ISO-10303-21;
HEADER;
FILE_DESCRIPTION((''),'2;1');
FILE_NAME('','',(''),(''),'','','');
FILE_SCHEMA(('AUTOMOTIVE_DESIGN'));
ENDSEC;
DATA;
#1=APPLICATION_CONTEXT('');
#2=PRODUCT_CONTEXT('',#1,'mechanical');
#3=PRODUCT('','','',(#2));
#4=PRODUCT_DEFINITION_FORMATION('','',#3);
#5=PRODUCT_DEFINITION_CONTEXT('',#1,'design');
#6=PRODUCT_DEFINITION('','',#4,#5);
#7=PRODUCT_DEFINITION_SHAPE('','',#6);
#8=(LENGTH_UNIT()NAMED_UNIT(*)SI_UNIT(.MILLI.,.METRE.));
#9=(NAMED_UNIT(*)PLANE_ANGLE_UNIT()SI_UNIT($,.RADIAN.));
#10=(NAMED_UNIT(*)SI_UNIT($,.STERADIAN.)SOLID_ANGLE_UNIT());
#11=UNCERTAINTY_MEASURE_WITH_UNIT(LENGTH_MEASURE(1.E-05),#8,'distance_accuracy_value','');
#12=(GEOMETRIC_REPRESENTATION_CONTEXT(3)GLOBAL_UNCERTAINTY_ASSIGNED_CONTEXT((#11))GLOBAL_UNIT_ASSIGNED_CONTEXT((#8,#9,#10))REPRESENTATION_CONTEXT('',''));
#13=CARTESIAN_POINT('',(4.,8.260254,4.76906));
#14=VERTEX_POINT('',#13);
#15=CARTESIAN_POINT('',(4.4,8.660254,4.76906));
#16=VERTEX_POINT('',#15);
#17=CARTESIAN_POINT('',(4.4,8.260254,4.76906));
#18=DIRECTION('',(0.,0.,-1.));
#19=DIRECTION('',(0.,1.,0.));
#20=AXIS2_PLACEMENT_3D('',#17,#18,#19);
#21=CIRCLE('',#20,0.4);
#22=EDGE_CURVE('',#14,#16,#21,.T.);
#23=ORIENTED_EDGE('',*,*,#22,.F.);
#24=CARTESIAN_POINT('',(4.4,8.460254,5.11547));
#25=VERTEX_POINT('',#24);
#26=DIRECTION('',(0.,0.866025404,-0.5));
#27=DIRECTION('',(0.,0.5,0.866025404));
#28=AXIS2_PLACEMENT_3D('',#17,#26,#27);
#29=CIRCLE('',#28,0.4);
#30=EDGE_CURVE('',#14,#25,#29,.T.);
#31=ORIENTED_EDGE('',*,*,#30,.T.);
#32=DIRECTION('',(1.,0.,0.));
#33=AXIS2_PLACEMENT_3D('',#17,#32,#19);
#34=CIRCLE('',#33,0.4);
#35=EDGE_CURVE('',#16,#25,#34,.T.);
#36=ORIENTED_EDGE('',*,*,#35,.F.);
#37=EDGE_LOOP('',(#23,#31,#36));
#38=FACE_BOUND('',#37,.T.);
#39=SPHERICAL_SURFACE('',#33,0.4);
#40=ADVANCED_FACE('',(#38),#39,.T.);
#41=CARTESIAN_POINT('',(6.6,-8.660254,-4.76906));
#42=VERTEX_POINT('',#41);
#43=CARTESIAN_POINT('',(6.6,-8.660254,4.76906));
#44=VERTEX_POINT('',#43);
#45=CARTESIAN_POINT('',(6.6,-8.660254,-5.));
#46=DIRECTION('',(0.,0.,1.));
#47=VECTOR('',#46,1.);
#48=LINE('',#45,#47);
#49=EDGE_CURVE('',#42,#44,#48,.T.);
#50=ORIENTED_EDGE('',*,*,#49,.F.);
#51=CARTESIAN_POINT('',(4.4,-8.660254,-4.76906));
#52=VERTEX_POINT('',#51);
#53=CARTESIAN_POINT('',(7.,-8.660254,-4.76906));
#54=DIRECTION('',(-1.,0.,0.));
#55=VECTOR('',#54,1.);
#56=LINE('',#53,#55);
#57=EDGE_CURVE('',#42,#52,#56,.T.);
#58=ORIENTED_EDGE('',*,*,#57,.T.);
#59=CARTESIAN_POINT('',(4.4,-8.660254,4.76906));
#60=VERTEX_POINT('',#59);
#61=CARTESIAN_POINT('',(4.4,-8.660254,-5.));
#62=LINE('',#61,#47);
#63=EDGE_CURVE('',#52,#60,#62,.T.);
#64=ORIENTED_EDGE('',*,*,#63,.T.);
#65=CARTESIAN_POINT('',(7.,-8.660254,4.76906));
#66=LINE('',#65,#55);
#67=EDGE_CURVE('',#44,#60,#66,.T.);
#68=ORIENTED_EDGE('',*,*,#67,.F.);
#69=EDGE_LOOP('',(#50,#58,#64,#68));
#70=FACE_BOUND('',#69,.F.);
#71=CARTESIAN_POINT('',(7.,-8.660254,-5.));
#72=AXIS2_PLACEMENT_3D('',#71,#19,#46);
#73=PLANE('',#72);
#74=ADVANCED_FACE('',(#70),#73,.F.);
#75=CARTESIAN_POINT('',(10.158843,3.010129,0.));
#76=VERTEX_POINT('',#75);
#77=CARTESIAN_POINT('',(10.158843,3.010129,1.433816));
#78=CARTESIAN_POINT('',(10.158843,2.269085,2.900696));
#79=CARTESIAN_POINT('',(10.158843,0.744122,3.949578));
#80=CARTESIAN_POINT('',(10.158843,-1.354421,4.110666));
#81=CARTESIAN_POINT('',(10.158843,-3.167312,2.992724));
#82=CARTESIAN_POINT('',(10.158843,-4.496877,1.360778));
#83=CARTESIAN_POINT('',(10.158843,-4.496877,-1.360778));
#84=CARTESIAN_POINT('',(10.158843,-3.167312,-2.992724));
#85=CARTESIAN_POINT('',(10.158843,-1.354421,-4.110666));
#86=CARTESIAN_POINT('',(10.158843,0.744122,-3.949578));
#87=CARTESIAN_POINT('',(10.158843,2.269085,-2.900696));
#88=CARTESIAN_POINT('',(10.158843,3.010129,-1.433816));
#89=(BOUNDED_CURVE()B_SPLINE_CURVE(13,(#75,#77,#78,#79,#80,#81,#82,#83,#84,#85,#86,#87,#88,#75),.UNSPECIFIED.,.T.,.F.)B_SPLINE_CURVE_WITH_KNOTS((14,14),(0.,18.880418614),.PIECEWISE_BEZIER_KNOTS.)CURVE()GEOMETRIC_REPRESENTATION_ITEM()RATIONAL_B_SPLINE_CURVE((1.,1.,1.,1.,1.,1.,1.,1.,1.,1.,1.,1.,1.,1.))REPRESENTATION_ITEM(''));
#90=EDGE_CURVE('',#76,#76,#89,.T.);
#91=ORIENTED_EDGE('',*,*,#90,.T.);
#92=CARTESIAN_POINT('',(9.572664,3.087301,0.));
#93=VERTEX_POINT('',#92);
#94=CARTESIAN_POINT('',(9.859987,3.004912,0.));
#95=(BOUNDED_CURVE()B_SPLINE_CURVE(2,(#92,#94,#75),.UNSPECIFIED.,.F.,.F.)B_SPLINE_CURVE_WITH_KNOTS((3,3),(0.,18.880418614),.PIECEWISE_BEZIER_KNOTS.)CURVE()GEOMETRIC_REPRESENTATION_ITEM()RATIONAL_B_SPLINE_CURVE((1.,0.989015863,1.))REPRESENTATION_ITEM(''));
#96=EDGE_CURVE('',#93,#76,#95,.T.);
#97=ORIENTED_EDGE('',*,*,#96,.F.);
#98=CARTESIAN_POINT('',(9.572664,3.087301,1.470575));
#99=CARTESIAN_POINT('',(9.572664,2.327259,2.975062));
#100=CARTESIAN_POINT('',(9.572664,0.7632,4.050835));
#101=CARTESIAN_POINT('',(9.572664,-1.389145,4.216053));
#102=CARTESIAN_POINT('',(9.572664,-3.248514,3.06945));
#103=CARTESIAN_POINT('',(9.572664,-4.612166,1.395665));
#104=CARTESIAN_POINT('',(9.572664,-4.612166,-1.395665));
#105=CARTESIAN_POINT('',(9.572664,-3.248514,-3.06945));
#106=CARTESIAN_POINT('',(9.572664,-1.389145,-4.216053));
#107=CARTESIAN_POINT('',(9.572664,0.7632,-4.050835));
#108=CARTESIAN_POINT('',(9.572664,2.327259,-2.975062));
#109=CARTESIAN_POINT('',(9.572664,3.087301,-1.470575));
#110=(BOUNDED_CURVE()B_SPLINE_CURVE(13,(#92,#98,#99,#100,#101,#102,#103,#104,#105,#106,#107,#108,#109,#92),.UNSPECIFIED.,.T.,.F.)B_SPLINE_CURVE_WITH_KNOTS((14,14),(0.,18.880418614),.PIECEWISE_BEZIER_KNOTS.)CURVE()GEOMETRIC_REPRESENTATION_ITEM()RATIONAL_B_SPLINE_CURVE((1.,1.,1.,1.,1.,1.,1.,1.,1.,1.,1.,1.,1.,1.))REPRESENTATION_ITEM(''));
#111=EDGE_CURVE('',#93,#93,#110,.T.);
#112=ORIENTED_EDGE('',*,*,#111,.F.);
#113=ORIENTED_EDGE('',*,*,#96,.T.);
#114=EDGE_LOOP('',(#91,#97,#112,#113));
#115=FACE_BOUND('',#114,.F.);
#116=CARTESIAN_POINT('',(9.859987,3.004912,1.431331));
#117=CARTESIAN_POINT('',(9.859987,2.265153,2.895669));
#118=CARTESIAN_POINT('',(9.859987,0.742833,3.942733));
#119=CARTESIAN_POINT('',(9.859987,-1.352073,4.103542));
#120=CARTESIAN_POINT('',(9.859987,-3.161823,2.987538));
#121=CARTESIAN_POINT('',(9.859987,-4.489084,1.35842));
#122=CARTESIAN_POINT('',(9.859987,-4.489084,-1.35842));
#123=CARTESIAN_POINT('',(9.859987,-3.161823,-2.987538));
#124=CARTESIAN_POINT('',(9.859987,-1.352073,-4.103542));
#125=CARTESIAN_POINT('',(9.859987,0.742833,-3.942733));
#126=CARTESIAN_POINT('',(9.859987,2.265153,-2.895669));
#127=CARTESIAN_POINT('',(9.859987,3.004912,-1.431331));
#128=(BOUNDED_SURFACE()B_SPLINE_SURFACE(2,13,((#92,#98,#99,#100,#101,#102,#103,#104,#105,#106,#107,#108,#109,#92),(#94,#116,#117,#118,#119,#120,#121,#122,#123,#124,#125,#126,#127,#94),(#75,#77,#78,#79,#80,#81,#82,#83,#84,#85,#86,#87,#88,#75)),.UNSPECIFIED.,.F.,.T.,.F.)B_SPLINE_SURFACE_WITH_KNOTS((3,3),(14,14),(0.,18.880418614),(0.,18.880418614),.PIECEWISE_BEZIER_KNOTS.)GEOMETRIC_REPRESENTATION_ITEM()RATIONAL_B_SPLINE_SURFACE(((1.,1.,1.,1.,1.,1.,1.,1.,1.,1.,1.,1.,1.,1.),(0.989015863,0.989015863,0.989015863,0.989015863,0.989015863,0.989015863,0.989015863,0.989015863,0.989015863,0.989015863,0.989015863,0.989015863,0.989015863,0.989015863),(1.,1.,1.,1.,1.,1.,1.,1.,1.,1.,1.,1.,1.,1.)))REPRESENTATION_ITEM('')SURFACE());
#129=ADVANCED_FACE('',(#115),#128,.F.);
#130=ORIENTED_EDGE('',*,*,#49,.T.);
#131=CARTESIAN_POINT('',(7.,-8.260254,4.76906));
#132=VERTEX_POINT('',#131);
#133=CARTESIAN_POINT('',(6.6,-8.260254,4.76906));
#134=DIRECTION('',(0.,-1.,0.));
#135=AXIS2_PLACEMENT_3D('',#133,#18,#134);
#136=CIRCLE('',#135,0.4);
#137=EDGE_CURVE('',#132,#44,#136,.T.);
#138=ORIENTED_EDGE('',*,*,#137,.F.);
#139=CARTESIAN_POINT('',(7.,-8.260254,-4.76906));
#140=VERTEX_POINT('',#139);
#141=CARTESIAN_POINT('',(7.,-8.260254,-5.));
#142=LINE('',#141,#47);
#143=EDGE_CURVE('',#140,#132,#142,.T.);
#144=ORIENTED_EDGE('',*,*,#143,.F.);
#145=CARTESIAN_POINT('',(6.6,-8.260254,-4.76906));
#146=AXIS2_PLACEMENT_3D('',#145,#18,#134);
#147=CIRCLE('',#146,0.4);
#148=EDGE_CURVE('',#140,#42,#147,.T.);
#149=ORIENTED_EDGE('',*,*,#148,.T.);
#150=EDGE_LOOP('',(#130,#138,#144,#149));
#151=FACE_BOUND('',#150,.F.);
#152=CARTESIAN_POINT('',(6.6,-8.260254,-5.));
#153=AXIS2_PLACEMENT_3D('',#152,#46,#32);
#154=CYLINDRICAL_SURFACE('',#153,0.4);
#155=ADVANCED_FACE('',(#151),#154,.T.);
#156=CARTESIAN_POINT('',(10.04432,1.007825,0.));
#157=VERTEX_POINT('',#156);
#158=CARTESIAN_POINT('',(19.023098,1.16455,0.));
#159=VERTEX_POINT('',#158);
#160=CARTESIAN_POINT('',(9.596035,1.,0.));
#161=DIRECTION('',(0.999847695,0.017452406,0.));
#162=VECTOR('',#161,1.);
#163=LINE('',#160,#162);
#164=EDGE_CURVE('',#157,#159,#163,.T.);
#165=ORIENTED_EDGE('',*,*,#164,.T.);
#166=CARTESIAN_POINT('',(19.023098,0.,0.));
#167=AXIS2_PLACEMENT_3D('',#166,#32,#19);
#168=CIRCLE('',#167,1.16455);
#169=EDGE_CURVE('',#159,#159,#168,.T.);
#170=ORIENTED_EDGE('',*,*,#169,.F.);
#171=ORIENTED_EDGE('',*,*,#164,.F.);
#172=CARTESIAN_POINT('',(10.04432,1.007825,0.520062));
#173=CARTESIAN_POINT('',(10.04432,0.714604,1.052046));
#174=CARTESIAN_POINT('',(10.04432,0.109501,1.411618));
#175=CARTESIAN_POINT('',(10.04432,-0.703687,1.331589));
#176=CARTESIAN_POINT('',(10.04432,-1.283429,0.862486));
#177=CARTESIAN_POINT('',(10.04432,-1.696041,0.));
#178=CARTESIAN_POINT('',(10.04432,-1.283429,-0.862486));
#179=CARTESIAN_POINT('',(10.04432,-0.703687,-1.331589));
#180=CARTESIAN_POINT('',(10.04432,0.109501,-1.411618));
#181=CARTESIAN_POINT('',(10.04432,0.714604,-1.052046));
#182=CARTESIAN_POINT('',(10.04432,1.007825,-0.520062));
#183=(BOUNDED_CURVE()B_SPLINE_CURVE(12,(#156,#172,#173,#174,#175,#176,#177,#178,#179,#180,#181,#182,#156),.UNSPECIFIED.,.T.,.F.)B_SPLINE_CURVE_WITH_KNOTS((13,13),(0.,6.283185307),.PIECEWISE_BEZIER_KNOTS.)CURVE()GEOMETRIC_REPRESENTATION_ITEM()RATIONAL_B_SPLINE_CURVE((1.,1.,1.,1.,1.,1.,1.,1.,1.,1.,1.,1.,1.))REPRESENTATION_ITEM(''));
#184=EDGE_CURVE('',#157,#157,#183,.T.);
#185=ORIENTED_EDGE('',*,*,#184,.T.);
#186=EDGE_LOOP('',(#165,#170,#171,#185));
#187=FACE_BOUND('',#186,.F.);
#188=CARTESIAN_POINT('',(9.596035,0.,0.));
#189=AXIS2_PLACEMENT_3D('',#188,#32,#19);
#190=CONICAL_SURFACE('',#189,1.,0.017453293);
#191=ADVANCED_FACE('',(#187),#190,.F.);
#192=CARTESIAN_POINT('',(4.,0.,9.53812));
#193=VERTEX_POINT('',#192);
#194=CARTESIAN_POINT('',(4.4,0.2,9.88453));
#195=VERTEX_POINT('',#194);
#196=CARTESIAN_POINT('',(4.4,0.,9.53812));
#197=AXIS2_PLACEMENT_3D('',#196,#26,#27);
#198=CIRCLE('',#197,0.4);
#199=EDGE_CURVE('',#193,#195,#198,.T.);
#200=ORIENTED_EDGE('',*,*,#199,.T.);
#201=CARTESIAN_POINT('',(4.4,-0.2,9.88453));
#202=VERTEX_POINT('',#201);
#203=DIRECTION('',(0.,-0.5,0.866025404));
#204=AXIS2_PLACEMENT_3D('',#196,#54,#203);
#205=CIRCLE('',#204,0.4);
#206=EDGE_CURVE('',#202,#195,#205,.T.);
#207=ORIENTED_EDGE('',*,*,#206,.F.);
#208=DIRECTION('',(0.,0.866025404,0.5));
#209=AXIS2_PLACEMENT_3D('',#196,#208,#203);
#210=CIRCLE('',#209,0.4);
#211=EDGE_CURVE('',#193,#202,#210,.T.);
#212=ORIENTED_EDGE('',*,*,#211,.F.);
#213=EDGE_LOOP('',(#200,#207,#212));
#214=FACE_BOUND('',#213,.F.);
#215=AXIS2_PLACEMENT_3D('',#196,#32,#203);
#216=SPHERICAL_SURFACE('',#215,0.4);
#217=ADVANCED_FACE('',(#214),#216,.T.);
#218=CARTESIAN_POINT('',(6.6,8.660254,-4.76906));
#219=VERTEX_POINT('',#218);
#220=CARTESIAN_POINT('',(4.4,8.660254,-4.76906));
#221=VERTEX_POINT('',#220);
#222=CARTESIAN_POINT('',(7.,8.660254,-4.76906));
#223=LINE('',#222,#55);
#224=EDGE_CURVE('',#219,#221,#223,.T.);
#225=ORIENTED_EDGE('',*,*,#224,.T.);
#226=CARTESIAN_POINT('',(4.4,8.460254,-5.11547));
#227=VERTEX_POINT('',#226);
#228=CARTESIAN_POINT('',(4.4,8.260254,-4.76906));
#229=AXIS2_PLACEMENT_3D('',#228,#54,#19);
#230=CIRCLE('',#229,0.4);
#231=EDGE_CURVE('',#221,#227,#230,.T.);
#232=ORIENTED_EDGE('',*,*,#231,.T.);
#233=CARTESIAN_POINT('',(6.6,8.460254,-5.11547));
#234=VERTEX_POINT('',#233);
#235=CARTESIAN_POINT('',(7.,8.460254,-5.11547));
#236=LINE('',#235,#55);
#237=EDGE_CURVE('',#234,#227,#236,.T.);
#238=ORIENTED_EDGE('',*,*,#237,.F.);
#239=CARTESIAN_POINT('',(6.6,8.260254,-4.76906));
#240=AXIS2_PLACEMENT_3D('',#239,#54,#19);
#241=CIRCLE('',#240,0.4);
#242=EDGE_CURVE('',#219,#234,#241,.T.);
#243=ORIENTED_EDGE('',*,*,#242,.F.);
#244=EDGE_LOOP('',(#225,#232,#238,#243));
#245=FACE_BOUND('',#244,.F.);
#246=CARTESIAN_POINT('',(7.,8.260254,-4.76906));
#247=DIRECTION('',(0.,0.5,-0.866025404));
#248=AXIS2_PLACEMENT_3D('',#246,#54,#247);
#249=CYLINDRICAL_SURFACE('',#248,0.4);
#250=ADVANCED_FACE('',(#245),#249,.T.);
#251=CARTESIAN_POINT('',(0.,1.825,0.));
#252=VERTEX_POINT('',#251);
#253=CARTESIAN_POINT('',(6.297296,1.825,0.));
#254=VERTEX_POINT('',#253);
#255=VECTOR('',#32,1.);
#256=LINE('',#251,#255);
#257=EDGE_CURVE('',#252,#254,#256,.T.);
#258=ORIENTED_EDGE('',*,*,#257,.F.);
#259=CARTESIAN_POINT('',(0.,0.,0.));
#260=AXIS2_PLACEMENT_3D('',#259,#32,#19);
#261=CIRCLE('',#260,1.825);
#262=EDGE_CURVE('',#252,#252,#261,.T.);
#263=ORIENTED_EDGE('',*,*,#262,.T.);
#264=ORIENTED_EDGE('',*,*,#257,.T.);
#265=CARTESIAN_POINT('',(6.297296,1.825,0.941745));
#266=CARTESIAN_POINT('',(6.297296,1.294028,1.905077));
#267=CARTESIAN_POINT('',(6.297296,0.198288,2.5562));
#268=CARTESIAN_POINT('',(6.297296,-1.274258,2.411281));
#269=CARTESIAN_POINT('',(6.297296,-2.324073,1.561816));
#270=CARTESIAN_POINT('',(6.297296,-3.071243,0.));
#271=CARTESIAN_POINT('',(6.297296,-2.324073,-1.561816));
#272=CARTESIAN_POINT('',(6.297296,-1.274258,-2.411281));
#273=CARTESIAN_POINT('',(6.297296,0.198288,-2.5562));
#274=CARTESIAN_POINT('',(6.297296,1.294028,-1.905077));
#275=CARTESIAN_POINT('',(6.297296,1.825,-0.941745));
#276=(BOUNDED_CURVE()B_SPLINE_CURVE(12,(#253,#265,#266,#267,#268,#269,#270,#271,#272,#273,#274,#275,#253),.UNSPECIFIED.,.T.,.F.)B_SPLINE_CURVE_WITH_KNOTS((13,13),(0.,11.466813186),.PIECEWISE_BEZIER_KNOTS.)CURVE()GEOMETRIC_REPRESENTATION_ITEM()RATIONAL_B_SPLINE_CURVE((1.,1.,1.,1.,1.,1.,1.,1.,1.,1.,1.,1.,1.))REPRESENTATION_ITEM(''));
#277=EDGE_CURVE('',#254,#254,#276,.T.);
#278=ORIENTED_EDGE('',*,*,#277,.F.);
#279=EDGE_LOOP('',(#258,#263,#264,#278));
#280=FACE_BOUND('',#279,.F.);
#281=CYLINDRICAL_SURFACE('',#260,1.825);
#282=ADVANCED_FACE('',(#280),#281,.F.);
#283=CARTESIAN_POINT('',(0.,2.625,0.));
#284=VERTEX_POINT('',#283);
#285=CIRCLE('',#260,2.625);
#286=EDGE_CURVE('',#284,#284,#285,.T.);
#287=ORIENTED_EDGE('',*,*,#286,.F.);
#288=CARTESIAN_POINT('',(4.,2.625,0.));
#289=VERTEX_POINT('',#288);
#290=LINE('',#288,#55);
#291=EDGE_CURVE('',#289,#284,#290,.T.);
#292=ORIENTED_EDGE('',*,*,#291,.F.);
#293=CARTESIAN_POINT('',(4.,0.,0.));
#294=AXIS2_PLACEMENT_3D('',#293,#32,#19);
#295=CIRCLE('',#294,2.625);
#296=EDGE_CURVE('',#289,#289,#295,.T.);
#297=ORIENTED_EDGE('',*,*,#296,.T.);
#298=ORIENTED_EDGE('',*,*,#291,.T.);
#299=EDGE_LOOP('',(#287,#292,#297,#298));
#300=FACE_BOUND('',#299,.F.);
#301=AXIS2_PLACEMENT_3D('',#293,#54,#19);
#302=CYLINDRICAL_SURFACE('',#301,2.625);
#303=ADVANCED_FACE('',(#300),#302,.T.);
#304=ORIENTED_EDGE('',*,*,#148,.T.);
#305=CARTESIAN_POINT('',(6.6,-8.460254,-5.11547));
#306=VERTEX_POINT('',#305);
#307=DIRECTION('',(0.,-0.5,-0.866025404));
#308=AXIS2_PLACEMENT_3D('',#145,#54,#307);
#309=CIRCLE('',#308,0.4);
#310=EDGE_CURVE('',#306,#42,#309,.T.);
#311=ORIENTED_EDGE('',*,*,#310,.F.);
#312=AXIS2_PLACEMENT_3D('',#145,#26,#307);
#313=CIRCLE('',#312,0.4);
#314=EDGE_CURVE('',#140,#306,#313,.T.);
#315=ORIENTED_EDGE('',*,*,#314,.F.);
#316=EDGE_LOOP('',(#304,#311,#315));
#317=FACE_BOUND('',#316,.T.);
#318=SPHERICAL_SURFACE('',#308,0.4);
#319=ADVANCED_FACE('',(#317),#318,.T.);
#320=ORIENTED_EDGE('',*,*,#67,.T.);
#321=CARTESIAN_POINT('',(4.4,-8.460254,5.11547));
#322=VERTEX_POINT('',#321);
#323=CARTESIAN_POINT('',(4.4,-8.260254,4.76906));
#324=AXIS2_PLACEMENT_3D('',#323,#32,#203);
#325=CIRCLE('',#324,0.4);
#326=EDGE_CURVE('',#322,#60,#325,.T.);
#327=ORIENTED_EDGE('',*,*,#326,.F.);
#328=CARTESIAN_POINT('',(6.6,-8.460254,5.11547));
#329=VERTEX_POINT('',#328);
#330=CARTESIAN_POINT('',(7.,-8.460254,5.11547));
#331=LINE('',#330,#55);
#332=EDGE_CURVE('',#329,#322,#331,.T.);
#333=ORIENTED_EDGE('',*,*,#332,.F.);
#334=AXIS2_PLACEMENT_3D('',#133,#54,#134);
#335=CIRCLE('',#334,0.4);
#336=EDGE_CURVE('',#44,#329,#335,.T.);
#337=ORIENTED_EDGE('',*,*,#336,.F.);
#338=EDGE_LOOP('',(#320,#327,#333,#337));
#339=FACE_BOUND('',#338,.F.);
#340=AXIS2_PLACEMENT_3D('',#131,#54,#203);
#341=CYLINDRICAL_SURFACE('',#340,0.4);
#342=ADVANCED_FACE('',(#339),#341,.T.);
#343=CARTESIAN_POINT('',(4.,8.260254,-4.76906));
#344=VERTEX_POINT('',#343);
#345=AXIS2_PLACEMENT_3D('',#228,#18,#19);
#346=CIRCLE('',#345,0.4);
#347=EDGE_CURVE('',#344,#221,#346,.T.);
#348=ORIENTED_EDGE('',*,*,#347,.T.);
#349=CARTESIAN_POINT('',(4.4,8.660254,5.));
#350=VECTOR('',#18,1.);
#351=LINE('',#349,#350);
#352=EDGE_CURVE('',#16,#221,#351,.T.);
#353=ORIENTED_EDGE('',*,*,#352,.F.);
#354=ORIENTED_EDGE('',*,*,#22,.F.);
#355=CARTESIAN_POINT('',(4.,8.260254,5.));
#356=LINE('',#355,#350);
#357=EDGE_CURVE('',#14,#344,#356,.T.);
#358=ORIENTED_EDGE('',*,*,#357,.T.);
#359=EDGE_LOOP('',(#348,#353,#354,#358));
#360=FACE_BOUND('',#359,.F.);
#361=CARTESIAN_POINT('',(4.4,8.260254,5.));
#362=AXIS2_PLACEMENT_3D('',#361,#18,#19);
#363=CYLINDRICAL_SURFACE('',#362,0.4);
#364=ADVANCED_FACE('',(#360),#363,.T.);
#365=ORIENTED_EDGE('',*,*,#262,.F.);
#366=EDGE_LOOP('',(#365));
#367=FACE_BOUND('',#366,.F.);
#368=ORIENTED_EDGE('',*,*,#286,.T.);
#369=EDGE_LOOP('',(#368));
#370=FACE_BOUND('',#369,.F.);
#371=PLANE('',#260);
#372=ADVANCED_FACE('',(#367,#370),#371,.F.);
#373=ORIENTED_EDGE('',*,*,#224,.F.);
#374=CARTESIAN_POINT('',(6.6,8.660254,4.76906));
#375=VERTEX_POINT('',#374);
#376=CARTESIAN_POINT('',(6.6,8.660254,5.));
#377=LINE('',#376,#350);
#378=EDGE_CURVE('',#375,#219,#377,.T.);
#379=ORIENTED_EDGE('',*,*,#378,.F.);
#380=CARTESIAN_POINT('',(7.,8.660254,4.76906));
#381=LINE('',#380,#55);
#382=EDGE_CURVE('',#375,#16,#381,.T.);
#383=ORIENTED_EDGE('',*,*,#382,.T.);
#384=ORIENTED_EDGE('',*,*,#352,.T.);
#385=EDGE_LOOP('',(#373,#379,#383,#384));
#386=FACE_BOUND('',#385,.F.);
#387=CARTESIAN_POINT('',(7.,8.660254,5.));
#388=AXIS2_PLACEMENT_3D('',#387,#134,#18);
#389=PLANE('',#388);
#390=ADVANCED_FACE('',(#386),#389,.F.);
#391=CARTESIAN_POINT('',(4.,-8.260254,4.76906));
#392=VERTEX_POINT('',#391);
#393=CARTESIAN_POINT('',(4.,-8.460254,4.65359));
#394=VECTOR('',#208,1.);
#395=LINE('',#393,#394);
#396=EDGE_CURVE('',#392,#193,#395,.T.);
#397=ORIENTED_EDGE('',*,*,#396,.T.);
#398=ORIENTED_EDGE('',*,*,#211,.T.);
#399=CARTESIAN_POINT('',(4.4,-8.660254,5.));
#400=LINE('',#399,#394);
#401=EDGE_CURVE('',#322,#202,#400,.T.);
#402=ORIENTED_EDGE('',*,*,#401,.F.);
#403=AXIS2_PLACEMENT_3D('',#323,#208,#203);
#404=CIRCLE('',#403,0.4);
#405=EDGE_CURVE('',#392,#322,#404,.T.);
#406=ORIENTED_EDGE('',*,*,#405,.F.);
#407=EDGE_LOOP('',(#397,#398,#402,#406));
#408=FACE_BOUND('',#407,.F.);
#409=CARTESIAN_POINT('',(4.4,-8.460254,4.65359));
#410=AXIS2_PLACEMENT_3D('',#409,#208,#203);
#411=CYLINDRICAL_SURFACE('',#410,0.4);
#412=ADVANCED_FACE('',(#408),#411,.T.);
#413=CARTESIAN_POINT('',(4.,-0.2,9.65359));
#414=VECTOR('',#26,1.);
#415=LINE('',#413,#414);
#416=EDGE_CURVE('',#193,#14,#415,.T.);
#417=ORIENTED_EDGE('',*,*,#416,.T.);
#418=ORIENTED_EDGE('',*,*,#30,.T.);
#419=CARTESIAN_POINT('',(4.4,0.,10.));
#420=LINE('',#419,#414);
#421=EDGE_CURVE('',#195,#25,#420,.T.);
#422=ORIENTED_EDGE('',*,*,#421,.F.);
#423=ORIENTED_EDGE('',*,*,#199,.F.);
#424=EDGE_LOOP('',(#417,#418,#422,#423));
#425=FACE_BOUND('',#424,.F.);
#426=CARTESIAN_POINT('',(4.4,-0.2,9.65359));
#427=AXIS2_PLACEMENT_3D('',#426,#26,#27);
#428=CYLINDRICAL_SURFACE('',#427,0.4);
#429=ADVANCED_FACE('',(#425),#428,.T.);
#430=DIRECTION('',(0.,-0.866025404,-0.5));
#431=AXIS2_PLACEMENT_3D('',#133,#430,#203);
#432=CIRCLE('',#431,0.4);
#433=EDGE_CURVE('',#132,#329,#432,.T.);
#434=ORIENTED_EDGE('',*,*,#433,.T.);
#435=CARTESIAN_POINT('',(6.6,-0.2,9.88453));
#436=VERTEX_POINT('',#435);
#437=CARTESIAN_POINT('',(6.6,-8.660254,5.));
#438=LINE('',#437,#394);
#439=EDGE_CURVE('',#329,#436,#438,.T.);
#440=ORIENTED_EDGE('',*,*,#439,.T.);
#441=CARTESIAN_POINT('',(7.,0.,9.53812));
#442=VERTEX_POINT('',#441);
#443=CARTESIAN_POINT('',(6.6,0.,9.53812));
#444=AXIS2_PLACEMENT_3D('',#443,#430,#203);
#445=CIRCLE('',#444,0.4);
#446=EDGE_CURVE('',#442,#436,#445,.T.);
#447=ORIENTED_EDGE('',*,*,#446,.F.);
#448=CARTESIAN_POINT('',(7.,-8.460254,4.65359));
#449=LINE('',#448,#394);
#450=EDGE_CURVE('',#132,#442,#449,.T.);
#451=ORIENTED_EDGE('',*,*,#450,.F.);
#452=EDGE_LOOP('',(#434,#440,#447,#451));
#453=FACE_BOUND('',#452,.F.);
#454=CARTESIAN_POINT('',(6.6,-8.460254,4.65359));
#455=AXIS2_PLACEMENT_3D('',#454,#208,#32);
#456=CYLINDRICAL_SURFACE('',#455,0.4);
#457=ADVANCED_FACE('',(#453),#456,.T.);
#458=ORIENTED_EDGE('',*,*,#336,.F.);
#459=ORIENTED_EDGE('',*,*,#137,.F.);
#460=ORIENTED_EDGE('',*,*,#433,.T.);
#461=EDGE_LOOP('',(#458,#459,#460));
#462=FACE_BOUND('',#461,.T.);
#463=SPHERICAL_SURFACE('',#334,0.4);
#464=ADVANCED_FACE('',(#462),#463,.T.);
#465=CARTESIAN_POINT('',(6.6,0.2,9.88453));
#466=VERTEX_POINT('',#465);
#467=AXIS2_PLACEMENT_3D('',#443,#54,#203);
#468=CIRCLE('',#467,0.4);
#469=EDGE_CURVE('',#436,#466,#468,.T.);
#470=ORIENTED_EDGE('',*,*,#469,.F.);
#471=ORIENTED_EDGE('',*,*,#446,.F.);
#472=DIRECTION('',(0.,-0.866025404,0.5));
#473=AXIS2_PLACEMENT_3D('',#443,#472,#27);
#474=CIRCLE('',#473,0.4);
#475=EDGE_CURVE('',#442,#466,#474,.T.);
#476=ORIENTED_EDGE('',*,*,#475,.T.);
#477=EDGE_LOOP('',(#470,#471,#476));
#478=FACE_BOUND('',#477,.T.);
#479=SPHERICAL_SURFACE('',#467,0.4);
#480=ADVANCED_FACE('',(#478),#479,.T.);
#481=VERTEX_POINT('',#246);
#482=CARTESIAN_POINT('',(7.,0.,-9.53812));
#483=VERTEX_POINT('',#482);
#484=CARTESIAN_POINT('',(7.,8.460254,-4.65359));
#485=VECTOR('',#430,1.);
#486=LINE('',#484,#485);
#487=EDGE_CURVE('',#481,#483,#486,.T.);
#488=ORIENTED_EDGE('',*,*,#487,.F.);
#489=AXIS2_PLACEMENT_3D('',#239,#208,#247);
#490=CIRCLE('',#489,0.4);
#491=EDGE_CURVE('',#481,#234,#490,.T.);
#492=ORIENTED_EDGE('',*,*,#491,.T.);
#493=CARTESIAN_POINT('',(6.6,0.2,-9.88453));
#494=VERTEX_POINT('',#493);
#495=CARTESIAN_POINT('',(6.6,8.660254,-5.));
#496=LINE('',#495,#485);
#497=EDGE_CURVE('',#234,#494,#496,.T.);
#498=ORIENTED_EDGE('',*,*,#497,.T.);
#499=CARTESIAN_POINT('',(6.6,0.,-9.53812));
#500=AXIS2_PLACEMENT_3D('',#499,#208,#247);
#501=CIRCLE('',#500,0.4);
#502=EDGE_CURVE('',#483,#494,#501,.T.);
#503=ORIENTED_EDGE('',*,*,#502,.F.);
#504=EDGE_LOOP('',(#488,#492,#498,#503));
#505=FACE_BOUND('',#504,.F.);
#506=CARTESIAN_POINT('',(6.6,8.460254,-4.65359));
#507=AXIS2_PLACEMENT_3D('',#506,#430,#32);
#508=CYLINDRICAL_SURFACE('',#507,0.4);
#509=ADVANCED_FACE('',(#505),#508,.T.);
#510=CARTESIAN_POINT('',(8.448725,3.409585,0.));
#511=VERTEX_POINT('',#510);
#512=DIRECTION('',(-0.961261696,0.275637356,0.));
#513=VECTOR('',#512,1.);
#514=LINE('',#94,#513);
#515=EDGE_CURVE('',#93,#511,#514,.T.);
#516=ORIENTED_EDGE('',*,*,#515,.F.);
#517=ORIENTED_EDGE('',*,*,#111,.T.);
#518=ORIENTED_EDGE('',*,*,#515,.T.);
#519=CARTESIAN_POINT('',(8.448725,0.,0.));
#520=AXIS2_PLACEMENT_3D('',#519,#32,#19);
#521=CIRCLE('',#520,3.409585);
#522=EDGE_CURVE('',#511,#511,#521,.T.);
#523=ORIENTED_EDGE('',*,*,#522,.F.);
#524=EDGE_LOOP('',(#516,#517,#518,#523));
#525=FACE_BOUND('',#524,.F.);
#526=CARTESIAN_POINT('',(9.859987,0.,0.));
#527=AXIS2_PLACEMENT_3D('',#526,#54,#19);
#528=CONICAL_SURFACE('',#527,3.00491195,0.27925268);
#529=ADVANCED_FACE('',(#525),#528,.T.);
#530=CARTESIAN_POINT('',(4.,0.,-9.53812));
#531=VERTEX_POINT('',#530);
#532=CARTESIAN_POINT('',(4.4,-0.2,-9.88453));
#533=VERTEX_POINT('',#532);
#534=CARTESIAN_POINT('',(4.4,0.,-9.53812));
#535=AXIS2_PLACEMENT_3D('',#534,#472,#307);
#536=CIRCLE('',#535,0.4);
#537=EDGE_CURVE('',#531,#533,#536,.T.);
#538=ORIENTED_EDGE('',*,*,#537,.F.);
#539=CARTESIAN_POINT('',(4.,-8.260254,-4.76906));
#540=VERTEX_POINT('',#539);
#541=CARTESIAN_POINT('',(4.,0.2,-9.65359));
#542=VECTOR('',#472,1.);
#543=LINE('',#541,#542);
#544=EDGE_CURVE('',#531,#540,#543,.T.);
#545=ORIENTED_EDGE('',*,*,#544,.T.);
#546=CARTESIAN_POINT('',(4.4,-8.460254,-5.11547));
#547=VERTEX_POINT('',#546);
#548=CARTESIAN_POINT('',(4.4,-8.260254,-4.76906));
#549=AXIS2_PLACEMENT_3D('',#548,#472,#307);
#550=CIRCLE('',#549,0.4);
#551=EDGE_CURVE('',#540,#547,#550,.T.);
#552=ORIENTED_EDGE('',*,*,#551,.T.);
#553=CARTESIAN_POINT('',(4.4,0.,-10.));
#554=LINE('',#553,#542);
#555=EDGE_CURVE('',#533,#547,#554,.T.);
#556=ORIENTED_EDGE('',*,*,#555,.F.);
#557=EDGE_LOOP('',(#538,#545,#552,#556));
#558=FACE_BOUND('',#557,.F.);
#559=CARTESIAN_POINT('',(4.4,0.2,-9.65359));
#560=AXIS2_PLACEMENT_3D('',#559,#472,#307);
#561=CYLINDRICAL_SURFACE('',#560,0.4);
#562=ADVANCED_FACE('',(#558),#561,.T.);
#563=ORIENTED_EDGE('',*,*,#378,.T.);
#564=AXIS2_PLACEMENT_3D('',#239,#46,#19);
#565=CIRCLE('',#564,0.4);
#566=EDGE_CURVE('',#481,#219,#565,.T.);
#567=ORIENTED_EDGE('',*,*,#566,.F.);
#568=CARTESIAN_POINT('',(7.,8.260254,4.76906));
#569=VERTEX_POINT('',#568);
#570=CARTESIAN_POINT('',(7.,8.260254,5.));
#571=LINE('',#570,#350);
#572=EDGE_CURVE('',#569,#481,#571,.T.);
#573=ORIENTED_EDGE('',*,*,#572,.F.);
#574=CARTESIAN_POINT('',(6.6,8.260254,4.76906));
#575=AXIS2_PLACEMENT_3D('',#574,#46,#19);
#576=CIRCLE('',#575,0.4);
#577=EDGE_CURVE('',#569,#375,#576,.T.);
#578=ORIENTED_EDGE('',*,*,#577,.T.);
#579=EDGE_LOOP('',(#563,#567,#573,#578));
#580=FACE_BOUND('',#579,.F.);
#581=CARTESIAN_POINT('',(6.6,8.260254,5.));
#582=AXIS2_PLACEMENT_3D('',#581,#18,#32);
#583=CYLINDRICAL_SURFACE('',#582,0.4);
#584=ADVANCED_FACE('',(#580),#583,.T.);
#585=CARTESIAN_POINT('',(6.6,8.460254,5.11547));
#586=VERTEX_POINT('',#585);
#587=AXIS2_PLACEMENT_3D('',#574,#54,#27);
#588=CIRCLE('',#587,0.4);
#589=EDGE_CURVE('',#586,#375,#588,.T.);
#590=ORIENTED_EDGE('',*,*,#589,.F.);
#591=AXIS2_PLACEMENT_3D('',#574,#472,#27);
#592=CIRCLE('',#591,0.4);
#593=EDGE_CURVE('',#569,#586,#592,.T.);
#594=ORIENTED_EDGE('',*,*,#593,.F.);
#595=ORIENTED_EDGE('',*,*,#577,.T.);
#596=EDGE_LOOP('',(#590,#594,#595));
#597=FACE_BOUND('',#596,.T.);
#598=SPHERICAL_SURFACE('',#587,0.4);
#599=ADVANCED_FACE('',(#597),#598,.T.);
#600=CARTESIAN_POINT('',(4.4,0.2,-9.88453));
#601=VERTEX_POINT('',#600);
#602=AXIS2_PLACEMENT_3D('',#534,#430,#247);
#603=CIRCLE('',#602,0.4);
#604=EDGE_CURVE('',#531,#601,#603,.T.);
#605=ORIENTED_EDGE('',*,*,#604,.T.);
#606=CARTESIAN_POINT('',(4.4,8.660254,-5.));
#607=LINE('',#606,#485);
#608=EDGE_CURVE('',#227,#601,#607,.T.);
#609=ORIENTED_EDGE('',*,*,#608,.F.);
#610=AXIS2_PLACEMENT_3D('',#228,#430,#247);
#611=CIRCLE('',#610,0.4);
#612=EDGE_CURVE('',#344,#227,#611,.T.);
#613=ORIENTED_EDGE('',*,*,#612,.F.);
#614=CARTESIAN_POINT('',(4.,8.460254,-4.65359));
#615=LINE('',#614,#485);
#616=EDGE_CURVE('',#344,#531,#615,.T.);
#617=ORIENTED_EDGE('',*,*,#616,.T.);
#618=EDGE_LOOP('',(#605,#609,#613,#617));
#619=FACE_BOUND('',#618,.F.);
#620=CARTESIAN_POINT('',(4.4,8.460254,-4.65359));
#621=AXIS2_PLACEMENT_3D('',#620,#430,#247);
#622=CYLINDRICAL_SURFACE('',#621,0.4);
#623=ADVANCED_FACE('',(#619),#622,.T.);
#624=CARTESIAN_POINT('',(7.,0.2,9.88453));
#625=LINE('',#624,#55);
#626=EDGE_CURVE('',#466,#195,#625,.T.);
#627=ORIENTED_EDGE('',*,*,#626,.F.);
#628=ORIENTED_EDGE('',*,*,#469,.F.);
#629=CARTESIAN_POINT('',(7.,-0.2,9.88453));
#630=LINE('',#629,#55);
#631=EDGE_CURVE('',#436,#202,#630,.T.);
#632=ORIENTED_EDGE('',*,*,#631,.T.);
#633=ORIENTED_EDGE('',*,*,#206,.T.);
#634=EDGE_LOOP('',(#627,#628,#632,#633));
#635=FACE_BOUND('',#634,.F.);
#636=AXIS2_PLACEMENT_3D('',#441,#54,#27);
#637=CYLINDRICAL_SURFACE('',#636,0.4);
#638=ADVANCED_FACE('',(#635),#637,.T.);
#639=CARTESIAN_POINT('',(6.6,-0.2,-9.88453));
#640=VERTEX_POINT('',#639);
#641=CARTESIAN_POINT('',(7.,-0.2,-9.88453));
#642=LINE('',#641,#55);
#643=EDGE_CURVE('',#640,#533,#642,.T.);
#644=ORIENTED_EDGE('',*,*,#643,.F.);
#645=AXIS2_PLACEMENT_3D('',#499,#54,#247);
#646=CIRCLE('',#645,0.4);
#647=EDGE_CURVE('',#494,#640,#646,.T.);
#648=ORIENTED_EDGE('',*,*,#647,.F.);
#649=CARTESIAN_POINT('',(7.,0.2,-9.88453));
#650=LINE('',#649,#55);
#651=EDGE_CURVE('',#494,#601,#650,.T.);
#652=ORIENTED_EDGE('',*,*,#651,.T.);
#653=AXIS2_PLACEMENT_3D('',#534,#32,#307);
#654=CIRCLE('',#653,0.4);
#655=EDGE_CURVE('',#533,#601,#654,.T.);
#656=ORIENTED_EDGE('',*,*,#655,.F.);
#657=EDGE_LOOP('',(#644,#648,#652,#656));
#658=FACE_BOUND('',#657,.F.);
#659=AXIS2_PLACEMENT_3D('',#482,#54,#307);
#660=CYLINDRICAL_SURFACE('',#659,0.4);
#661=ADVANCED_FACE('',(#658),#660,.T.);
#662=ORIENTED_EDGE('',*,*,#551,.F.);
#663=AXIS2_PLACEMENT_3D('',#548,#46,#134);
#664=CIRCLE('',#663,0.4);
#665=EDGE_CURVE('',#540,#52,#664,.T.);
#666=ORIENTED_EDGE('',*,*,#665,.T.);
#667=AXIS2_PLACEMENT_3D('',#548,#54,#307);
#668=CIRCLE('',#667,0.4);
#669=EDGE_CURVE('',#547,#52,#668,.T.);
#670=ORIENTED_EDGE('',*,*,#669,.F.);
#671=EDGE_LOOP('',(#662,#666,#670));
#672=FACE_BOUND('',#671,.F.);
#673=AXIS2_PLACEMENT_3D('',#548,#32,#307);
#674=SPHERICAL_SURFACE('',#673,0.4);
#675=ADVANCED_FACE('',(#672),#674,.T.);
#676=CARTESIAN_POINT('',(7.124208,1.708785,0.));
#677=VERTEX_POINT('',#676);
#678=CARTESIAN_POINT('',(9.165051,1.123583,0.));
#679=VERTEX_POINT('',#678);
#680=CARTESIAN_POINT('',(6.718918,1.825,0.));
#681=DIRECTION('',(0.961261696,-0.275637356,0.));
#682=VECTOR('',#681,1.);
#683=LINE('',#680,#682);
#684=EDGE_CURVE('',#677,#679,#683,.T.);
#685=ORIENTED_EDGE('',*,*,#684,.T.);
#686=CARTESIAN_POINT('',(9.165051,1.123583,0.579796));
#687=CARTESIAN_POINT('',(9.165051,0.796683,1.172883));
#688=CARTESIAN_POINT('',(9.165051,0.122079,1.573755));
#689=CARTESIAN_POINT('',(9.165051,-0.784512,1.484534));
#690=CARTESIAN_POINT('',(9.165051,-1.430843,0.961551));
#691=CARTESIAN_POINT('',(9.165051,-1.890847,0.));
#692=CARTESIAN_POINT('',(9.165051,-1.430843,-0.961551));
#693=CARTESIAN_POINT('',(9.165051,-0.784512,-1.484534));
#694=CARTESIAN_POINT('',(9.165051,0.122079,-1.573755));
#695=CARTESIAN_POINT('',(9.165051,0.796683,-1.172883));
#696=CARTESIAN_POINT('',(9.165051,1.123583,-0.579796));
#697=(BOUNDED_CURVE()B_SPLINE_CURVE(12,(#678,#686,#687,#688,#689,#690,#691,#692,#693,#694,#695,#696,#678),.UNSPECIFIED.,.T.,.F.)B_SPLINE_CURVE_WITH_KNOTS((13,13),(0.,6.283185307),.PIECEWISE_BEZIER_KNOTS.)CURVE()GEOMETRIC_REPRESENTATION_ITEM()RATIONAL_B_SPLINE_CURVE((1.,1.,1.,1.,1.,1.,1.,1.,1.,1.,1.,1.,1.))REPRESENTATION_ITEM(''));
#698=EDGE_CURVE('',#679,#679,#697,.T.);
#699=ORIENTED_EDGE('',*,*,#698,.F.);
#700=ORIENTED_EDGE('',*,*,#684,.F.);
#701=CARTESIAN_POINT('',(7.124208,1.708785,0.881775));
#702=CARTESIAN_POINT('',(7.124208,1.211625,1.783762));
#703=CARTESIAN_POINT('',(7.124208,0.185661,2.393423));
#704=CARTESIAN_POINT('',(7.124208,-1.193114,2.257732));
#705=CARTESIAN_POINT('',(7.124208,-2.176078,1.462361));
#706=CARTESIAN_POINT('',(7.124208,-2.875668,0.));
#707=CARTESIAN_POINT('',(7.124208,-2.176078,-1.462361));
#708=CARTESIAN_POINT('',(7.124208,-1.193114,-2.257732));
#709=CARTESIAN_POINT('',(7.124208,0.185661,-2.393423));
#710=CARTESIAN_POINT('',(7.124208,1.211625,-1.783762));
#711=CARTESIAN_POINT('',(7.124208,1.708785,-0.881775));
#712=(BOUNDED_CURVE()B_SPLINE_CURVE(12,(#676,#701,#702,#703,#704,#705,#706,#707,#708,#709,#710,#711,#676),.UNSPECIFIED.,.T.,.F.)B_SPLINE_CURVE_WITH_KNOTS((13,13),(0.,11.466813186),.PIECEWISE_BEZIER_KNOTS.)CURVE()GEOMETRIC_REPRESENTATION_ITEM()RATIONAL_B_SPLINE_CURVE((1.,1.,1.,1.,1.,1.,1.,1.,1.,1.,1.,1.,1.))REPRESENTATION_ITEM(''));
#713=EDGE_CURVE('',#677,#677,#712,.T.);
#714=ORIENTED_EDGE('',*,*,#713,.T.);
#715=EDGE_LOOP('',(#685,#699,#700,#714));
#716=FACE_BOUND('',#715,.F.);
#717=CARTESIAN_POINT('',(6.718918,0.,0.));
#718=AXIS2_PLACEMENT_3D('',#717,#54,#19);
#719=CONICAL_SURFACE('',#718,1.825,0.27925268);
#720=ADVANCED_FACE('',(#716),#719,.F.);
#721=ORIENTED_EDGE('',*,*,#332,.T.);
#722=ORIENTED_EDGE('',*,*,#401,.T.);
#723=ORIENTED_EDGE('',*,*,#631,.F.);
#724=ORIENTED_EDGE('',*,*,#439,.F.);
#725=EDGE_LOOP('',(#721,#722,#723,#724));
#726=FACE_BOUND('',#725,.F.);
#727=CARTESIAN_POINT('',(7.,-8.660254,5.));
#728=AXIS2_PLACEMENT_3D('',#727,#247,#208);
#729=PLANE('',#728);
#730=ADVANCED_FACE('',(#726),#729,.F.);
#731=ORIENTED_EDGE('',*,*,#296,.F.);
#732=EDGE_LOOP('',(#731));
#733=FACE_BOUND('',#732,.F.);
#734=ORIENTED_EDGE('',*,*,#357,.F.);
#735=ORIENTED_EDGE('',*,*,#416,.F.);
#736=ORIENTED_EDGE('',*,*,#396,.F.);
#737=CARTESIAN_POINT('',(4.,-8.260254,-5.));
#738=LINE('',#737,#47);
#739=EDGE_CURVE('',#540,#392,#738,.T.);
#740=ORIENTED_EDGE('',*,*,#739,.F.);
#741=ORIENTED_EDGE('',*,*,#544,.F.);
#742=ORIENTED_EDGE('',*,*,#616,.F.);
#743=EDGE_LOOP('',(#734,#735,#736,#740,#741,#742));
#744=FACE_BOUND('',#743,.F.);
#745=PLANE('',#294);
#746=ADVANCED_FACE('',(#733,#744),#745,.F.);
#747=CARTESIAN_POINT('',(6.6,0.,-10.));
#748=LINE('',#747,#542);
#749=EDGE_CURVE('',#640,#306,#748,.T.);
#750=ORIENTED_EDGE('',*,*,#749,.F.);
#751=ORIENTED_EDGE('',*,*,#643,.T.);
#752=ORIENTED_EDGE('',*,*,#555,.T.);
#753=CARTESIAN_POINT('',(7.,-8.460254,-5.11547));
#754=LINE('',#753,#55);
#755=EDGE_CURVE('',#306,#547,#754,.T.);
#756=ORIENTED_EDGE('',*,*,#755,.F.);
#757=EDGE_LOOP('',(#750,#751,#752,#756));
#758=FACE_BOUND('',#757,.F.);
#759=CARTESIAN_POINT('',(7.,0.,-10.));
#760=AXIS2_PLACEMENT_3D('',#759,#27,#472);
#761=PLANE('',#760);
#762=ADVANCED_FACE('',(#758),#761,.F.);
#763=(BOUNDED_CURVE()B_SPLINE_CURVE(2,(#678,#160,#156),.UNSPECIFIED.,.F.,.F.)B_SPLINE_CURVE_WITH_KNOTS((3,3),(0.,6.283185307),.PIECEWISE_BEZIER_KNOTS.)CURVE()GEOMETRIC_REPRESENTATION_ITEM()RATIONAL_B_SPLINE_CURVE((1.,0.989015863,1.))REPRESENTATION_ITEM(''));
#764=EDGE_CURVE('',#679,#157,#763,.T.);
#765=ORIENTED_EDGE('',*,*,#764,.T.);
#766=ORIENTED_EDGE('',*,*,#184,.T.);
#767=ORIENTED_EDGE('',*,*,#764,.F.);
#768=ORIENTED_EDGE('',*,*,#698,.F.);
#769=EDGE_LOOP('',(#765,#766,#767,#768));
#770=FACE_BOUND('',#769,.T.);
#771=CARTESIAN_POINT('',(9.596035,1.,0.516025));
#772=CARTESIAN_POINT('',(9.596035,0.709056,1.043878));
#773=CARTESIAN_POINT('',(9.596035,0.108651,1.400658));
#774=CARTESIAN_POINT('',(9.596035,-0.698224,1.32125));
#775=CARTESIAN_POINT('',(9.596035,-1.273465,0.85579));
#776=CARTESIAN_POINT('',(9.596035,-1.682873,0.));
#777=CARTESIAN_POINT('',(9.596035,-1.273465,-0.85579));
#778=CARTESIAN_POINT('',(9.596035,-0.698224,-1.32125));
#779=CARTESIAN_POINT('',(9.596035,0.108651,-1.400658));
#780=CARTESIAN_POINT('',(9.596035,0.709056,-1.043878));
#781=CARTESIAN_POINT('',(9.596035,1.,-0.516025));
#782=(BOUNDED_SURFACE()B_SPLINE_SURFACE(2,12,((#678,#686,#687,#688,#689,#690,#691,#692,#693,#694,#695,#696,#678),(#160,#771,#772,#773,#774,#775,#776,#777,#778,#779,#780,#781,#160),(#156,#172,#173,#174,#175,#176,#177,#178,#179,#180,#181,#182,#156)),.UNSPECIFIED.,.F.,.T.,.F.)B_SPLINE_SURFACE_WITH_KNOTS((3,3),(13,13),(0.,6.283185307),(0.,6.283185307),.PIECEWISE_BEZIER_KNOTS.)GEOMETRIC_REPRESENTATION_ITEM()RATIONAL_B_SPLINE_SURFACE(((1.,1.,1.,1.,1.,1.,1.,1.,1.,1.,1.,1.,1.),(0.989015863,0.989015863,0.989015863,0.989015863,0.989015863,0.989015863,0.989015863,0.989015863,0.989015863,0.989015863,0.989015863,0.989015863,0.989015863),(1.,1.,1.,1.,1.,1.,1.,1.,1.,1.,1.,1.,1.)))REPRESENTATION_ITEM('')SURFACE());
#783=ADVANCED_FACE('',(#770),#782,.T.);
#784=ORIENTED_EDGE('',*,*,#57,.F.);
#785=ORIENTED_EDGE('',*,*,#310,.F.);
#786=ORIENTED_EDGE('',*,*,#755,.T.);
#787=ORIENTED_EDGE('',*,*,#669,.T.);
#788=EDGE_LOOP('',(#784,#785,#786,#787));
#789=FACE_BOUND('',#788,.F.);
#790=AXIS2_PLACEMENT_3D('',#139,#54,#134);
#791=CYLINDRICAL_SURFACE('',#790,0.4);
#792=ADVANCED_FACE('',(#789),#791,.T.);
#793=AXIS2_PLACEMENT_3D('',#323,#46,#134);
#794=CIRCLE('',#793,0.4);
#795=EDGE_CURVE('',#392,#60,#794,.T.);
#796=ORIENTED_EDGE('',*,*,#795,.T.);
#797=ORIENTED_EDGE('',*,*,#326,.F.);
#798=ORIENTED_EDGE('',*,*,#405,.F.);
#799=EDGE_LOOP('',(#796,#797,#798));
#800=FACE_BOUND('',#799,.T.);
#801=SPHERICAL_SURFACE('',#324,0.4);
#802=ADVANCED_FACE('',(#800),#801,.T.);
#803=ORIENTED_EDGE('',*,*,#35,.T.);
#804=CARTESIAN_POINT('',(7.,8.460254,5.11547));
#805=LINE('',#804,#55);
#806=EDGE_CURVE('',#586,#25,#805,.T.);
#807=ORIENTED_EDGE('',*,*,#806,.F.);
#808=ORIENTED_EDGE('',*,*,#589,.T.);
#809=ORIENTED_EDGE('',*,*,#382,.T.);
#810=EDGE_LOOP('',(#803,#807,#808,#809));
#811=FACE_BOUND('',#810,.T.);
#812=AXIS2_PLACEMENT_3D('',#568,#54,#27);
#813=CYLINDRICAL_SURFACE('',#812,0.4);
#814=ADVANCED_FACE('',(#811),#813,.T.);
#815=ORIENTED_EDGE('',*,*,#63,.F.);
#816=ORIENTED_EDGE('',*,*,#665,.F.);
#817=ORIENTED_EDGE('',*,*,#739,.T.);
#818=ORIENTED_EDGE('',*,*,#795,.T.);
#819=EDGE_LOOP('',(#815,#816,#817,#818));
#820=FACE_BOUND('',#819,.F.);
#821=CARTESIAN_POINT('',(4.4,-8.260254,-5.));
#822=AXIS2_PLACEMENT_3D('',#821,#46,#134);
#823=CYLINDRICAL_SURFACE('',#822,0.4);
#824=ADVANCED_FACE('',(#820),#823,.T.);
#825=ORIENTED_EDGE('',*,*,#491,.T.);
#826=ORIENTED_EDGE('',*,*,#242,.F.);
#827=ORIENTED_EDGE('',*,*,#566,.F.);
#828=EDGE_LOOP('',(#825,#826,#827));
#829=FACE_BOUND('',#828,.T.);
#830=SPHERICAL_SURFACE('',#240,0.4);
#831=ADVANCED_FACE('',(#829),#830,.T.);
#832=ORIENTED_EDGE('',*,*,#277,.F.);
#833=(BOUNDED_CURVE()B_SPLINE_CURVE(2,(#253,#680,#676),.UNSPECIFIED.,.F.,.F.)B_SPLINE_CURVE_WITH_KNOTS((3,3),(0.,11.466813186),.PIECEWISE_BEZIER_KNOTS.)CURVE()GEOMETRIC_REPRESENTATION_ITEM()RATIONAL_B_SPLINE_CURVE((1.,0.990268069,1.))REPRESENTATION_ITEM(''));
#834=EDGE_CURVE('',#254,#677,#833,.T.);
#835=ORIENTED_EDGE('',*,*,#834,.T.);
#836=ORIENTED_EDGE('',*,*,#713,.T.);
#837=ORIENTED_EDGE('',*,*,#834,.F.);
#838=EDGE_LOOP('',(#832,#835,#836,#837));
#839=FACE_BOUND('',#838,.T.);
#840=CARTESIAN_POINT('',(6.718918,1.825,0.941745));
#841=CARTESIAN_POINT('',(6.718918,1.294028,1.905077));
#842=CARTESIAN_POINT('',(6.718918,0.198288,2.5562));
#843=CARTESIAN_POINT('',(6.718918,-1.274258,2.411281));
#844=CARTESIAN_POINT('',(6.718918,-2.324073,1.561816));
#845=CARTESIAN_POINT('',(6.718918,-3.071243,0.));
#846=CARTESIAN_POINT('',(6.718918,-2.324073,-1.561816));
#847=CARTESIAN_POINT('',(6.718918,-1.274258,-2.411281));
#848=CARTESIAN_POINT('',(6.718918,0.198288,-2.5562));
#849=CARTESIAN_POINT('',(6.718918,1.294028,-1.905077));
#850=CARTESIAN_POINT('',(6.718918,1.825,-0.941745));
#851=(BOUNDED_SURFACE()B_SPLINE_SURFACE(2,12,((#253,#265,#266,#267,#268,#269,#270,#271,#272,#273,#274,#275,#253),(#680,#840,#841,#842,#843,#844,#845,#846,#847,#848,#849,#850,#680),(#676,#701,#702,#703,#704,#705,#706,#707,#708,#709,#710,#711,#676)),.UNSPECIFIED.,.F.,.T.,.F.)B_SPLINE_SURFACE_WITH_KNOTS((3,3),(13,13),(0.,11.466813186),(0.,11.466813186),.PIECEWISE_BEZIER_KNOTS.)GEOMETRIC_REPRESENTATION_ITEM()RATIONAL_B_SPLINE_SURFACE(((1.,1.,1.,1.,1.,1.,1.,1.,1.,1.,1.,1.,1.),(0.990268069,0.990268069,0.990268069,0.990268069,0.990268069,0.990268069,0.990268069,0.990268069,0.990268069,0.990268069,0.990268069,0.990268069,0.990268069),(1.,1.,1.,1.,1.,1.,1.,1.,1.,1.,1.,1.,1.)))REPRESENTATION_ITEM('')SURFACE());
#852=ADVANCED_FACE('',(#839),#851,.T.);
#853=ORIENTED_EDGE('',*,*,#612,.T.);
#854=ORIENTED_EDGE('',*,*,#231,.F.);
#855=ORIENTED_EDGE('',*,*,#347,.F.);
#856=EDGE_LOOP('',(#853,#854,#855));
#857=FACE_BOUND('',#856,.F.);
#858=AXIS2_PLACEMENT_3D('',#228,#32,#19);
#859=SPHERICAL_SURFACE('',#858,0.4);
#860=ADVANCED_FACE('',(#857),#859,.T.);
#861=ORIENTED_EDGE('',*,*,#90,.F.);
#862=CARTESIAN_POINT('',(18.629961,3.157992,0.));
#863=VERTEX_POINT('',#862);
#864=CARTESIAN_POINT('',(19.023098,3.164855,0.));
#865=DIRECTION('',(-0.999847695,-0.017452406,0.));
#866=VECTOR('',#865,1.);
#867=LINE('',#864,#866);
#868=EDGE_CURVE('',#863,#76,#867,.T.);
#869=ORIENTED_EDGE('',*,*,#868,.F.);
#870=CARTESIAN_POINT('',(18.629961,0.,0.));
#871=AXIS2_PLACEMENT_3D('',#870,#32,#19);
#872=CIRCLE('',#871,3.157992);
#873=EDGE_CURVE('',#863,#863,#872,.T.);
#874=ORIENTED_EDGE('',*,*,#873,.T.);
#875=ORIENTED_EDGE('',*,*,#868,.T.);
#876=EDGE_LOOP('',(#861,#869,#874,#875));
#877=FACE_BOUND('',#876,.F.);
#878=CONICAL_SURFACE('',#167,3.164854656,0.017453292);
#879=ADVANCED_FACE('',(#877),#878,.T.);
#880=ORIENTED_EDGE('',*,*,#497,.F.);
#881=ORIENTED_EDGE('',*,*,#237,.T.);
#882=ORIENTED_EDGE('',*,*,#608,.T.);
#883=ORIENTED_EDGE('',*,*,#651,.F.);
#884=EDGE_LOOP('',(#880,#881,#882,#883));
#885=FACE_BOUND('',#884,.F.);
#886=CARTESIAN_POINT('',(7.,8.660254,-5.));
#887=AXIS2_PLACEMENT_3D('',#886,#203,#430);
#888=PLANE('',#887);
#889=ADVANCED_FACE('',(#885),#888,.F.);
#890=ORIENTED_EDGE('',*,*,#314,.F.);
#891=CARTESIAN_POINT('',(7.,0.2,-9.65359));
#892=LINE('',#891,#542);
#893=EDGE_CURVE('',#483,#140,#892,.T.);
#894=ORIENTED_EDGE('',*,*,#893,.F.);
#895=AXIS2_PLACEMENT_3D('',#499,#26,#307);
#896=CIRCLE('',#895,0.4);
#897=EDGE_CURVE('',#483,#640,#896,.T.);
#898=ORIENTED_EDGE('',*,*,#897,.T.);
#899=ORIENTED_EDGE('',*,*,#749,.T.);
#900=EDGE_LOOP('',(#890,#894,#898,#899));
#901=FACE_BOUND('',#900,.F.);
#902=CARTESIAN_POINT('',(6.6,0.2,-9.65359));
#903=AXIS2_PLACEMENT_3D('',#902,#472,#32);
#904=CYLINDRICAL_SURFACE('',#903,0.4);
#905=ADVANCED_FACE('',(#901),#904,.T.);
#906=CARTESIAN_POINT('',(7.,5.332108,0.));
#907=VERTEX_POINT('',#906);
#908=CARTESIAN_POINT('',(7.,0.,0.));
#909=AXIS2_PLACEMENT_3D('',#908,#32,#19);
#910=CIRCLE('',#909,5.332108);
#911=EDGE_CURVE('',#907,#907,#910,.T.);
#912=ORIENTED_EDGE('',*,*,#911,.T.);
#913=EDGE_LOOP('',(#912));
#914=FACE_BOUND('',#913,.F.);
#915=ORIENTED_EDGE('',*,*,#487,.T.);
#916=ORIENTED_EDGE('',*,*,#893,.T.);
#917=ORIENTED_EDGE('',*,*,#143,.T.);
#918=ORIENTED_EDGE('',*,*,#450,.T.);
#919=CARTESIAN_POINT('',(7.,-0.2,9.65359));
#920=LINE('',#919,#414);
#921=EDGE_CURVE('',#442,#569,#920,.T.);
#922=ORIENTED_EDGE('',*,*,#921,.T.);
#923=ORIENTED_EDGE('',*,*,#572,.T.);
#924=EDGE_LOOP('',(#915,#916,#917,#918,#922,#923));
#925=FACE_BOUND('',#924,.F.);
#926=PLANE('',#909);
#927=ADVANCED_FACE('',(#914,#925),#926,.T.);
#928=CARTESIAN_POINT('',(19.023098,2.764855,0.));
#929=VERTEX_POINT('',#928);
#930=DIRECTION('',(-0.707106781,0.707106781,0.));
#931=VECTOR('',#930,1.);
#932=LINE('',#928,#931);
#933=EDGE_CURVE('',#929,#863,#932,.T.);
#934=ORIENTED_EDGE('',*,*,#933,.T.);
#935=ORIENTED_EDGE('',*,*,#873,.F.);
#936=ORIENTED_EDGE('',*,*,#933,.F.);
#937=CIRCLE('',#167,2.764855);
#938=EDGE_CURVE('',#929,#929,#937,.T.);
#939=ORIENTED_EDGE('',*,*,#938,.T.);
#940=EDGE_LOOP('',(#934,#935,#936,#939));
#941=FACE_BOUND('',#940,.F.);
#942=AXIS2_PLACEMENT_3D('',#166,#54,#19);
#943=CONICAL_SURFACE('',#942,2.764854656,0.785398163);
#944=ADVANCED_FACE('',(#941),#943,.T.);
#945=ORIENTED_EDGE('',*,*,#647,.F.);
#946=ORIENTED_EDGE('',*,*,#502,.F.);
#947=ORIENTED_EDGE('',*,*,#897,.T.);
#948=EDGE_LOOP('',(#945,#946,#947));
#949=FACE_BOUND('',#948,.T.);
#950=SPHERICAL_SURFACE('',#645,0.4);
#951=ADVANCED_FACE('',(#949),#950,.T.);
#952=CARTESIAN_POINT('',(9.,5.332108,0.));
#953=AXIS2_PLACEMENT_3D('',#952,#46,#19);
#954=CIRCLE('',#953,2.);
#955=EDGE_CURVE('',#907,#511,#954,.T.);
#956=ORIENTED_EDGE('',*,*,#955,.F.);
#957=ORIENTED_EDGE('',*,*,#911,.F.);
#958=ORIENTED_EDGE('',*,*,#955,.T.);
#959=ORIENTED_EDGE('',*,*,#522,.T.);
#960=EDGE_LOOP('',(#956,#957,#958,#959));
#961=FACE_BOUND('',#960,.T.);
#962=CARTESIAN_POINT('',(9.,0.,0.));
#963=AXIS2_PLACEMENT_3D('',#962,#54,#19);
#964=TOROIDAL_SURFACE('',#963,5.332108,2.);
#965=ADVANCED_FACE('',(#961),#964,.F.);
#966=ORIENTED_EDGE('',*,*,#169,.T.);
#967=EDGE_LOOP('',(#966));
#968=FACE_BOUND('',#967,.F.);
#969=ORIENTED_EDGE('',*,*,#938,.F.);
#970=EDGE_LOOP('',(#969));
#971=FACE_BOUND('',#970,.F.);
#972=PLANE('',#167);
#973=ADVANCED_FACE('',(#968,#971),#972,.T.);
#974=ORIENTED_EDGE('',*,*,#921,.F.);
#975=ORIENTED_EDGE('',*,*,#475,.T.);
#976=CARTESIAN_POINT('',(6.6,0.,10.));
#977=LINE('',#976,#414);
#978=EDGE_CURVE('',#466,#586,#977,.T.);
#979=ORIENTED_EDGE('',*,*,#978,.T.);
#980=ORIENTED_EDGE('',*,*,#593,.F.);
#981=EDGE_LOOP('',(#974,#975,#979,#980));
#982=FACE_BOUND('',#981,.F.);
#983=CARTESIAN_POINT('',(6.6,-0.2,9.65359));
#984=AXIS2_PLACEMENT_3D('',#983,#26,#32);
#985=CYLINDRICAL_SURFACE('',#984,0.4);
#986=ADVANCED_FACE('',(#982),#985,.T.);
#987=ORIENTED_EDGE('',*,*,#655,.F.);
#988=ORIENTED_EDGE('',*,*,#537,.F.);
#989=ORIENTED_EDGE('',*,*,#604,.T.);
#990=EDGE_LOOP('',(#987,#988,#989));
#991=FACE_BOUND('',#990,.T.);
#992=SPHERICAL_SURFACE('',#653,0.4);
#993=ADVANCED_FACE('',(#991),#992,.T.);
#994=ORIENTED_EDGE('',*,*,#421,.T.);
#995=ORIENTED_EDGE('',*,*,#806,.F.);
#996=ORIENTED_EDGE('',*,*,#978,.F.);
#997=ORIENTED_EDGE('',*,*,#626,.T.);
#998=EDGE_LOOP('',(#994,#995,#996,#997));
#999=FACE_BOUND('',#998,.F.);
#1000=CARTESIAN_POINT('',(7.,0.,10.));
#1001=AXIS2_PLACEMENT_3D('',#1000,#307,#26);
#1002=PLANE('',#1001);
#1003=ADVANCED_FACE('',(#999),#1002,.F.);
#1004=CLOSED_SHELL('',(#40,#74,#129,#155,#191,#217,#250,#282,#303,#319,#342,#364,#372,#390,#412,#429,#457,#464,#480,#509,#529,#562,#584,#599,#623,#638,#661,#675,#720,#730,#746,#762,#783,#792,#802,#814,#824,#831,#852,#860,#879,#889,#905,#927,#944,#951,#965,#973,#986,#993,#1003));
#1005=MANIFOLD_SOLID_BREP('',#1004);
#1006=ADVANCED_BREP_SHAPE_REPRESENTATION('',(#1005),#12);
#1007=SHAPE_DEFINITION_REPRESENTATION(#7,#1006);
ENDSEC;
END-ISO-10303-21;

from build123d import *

# Parameters (mm, degrees)
FILLET4_R               = 3
CHAMFER1_SIZE2          = 0.393197641
CHAMFER1_SIZE           = 0.4
CUT_EXTRUDE1_DEPTH      = 13.023098533
CUT_EXTRUDE1_DEPTH_BACK = 8.0000001
FILLET5_R               = 0.4
FILLET6_R               = 2


with BuildPart() as part:
    # Sketch1 → Revolve1 (revolve)
    with BuildSketch(Plane.XY):
        Polygon((0, 1.825), (6.718918331, 1.825), (9.596035247, 1), (19.023098433, 1.16455), (19.023098433, 3.164854656), (9.859986912, 3.00491195), (7, 3.825), (7, 10), (4, 10), (4, 2.625), (0, 2.625), align=None)
    revolve(axis=Axis((0, 0, 0), (1, 0, 0)))

    # Fillet4
    fillet4_edges = [part.edges().sort_by_distance(p)[0] for p in [
        (9.596035247, -1, 0),
        (6.718918331, -1.825, 0),
    ]]
    fillet(fillet4_edges, radius=FILLET4_R)

    # Chamfer1
    chamfer1_edges = [part.edges().sort_by_distance(p)[0] for p in [
        (19.023098433, -3.164854656, 0),
    ]]
    chamfer(chamfer1_edges, length=CHAMFER1_SIZE, length2=CHAMFER1_SIZE2)

    # Sketch2 → Cut-Extrude1 (cut, two sides)
    with BuildSketch(Plane(origin=(7, 0, 0), x_dir=(0, 0, -1), z_dir=(1, 0, 0))) as cut_extrude1_sk:
        with BuildLine():
            Line((-10, 0), (-5, 8.660254038))
            ThreePointArc((-5, 8.660254038), (-8.660254038, 5), (-10, 0))
        make_face()
        with BuildLine():
            Line((-5, 8.660254038), (5, 8.660254038))
            ThreePointArc((5, 8.660254038), (0, 10), (-5, 8.660254038))
        make_face()
        with BuildLine():
            Line((5, 8.660254038), (10, 0))
            ThreePointArc((10, 0), (8.660254038, 5), (5, 8.660254038))
        make_face()
        with BuildLine():
            ThreePointArc((-10, 0), (-8.660254038, -5), (-5, -8.660254038))
            Line((-5, -8.660254038), (-10, 0))
        make_face()
        with BuildLine():
            ThreePointArc((-5, -8.660254038), (0, -10), (5, -8.660254038))
            Line((5, -8.660254038), (-5, -8.660254038))
        make_face()
        with BuildLine():
            ThreePointArc((5, -8.660254038), (8.660254038, -5), (10, 0))
            Line((10, 0), (5, -8.660254038))
        make_face()
    extrude(amount=CUT_EXTRUDE1_DEPTH, mode=Mode.SUBTRACT)
    extrude(cut_extrude1_sk.sketch, amount=-CUT_EXTRUDE1_DEPTH_BACK, mode=Mode.SUBTRACT)

    # Fillet5
    fillet5_edges = [part.edges().sort_by_distance(p)[0] for p in [
        (7, -4.330127019, -7.5),
        (4, -4.330127019, -7.5),
        (4, -8.660254038, 0),
        (4, 4.330127019, -7.5),
        (4, 4.330127019, 7.5),
        (5.5, 8.660254038, 5),
        (7, 4.330127019, 7.5),
        (5.5, 0, 10),
        (5.5, 0, -10),
        (7, 4.330127019, -7.5),
        (5.5, 8.660254038, -5),
        (5.5, -8.660254038, 5),
        (7, -8.660254038, 0),
        (5.5, -8.660254038, -5),
        (7, 8.660254038, 0),
        (4, 8.660254038, 0),
        (7, -4.330127019, 7.5),
        (4, -4.330127019, 7.5),
    ]]
    fillet(fillet5_edges, radius=FILLET5_R)

    # Fillet6
    fillet6_edges = [part.edges().sort_by_distance(p)[0] for p in [
        (7, -3.825, 0),
        (9.859986912, -3.00491195, 0),
    ]]
    fillet(fillet6_edges, radius=FILLET6_R)


solid = part.part
